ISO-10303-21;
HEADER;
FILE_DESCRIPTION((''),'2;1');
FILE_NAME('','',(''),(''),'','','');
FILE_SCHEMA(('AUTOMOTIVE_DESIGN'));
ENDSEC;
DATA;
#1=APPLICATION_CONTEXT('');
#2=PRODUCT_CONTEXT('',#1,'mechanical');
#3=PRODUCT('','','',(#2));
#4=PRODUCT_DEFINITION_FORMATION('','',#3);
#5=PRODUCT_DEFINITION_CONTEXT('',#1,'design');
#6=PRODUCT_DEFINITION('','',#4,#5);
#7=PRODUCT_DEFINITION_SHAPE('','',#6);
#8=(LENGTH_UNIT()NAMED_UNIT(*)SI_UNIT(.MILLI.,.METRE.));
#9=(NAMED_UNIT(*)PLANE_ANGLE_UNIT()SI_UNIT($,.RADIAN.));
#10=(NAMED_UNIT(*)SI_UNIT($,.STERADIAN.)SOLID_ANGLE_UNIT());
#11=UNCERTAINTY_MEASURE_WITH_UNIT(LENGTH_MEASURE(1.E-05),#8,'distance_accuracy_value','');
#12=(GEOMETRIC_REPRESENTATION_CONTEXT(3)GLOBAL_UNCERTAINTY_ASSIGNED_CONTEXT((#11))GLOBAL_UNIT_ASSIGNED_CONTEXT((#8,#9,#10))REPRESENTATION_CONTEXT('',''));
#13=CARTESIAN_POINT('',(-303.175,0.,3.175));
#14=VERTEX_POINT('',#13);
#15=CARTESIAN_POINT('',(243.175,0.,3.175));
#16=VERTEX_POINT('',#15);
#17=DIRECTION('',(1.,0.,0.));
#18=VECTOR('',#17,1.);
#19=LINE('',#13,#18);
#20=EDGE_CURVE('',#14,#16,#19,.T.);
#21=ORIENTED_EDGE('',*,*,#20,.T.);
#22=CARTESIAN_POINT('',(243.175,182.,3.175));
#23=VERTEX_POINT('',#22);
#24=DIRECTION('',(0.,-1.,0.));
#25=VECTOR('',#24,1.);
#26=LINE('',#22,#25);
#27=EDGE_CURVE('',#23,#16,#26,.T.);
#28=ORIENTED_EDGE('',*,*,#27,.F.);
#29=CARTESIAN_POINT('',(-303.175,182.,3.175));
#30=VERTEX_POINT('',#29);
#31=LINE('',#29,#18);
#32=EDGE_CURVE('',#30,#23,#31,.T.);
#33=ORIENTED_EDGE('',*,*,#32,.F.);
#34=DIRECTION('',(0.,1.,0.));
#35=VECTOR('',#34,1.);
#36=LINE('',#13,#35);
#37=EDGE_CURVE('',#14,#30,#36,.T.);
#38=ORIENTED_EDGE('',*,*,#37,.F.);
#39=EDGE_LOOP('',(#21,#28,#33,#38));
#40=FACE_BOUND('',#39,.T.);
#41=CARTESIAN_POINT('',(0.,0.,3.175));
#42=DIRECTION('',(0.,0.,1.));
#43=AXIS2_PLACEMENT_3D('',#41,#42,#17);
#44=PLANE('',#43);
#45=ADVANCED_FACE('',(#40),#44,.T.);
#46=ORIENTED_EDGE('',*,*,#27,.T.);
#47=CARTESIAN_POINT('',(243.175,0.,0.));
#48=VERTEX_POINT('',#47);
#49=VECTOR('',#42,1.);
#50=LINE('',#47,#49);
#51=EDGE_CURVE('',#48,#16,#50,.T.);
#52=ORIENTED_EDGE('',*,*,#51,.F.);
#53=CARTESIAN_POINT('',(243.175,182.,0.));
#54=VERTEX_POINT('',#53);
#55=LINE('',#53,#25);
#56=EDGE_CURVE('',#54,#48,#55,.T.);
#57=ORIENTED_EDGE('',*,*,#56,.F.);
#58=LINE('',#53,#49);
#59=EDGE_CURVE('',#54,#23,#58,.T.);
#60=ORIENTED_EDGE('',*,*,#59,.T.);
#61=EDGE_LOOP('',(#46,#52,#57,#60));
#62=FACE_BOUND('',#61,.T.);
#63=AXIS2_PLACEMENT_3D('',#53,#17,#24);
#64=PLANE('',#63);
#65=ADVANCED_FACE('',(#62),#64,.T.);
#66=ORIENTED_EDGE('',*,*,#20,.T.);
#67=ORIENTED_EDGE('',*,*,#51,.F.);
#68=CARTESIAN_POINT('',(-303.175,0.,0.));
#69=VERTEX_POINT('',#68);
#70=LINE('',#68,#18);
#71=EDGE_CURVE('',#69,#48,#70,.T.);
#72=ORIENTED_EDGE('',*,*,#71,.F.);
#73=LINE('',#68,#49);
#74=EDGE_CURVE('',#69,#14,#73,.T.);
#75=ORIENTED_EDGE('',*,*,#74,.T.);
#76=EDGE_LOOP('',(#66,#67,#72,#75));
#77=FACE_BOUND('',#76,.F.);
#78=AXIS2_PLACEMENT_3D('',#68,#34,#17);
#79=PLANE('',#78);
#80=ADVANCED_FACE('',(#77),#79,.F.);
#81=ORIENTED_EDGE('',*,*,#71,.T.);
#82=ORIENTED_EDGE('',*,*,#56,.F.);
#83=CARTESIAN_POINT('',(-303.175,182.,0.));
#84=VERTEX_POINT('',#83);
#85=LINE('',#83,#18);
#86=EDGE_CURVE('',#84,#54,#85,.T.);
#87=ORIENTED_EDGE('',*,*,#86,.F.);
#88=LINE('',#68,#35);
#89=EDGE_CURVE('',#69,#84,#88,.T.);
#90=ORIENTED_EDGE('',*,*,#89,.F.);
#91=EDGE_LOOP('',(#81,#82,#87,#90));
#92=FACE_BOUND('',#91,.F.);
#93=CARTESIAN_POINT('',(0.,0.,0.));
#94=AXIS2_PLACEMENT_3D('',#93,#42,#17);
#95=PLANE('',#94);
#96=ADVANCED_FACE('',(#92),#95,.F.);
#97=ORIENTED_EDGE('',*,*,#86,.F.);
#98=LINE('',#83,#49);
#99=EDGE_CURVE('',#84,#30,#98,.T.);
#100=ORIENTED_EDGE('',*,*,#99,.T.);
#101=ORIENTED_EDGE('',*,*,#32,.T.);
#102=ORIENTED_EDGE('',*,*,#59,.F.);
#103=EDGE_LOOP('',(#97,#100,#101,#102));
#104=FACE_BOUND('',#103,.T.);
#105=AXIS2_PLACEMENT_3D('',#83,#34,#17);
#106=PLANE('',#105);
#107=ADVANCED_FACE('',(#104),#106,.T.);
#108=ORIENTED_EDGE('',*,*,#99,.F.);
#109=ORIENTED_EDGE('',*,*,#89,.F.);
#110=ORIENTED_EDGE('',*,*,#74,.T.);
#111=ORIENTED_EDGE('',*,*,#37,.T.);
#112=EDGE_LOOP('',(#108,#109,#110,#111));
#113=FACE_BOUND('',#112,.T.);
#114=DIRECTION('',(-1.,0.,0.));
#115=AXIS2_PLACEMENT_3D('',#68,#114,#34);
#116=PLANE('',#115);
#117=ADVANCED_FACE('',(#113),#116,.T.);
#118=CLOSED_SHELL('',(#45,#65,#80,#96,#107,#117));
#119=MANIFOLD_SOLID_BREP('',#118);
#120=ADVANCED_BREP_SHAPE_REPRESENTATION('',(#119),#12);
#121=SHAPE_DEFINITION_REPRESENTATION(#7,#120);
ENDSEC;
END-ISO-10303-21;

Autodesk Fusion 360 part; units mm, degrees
ref_plane "WorkPlane12" through (0, -1, 0) normal (0, 1, 0) x (0, 0, 1)
sketch "MyStock" plane through (0, 0, 0) normal (0, 0, 1) x (1, 0, 0)
  line L0 (-303.175, 182) -> (243.175, 182)
  line L1 (243.175, 182) -> (243.175, 0)
  line L2 (-303.175, 0) -> (-303.175, 182)
  line L3 (-303.175, 0) -> (243.175, 0)
  dimension "d2016" = 243.175
  dimension "d2017" = 303.175
  dimension "d2102" = 182
extrude "Extrude21" add sketch "MyStock" along normal blind 3.175
sketch "Box Big part" plane through (0, 0, 0) normal (0, 0, 1) x (1, 0, 0)
  line L0 (-224.905, 0) -> (-240, 0)
  line L1 (0, 16.095) -> (0, 0)
  line L2 (-240, 0) -> (-224.905, 0)
  line L3 (-224.905, 0) -> (-224.905, 1.5613)
  line L4 (-223.7758, 3.175) -> (-216.2242, 3.175)
  line L5 (-215.095, 1.5613) -> (-215.095, 0)
  line L6 (-240, 16.095) -> (-238.4387, 16.095)
  line L7 (-236.825, 17.2242) -> (-236.825, 24.7758)
  line L8 (-238.4387, 25.905) -> (-240, 25.905)
  line L9 (-215.095, 0) -> (-204.905, 0)
  line L10 (1.75, 0) -> (22.5, 0)
  arc A0 (-215.095, 1.5613) -> (-216.2242, 3.175) centre (-215.5171, 2.4679) ccw
  arc A1 (-223.7758, 3.175) -> (-224.905, 1.5613) centre (-224.4829, 2.4679) ccw
  line L11 (-240, 0) -> (-240, 16.095)
  line L12 (-240, 25.905) -> (-240, 36.095)
  arc A2 (-238.4387, 16.095) -> (-236.825, 17.2242) centre (-237.5321, 16.5171) ccw
  arc A3 (-236.825, 24.7758) -> (-238.4387, 25.905) centre (-237.5321, 25.4829) ccw
  line L13 (-302, 91) -> (0, 91) construction
  line L14 (-120, -20) -> (-120, 200) construction
  arc A4 (-1.5613, 25.905) -> (-3.175, 24.7758) centre (-2.4679, 25.4829) ccw
  arc A5 (-3.175, 17.2242) -> (-1.5613, 16.095) centre (-2.4679, 16.5171) ccw
  line L15 (-3.175, 17.2242) -> (-3.175, 24.7758)
  line L16 (-1.5613, 25.905) -> (0, 25.905)
  line L17 (0, 25.905) -> (0, 36.095)
  line L18 (0, 16.095) -> (-1.5613, 16.095)
  line L19 (0, 16.095) -> (0, 0)
  line L20 (-215.095, 180.4387) -> (-215.095, 182)
  line L21 (-224.905, 182) -> (-224.905, 180.4387)
  line L22 (-215.095, 182) -> (-204.905, 182)
  arc A6 (-216.2242, 178.825) -> (-215.095, 180.4387) centre (-215.5171, 179.5321) ccw
  line L23 (-224.905, 182) -> (-240, 182)
  arc A7 (-224.905, 180.4387) -> (-223.7758, 178.825) centre (-224.4829, 179.5321) ccw
  line L24 (-223.7758, 178.825) -> (-216.2242, 178.825)
  line L25 (-240, 182) -> (-224.905, 182)
  arc A8 (-195.095, 1.5613) -> (-196.2242, 3.175) centre (-195.5171, 2.4679) ccw
  line L26 (-195.095, 1.5613) -> (-195.095, 0)
  arc A9 (-203.7758, 3.175) -> (-204.905, 1.5613) centre (-204.4829, 2.4679) ccw
  line L27 (-195.095, 0) -> (-184.905, 0)
  line L28 (-203.7758, 3.175) -> (-196.2242, 3.175)
  line L29 (-204.905, 0) -> (-204.905, 1.5613)
  arc A10 (-175.095, 1.5613) -> (-176.2242, 3.175) centre (-175.5171, 2.4679) ccw
  line L30 (-175.095, 1.5613) -> (-175.095, 0)
  arc A11 (-183.7758, 3.175) -> (-184.905, 1.5613) centre (-184.4829, 2.4679) ccw
  line L31 (-175.095, 0) -> (-164.905, 0)
  line L32 (-183.7758, 3.175) -> (-176.2242, 3.175)
  line L33 (-184.905, 0) -> (-184.905, 1.5613)
  arc A12 (-155.095, 1.5613) -> (-156.2242, 3.175) centre (-155.5171, 2.4679) ccw
  line L34 (-155.095, 1.5613) -> (-155.095, 0)
  arc A13 (-163.7758, 3.175) -> (-164.905, 1.5613) centre (-164.4829, 2.4679) ccw
  line L35 (-155.095, 0) -> (-144.905, 0)
  line L36 (-163.7758, 3.175) -> (-156.2242, 3.175)
  line L37 (-164.905, 0) -> (-164.905, 1.5613)
  arc A14 (-135.095, 1.5613) -> (-136.2242, 3.175) centre (-135.5171, 2.4679) ccw
  line L38 (-135.095, 1.5613) -> (-135.095, 0)
  arc A15 (-143.7758, 3.175) -> (-144.905, 1.5613) centre (-144.4829, 2.4679) ccw
  line L39 (-135.095, 0) -> (-124.905, 0)
  line L40 (-143.7758, 3.175) -> (-136.2242, 3.175)
  line L41 (-144.905, 0) -> (-144.905, 1.5613)
  arc A16 (-115.095, 1.5613) -> (-116.2242, 3.175) centre (-115.5171, 2.4679) ccw
  line L42 (-115.095, 1.5613) -> (-115.095, 0)
  arc A17 (-123.7758, 3.175) -> (-124.905, 1.5613) centre (-124.4829, 2.4679) ccw
  line L43 (-115.095, 0) -> (-104.905, 0)
  line L44 (-123.7758, 3.175) -> (-116.2242, 3.175)
  line L45 (-124.905, 0) -> (-124.905, 1.5613)
  arc A18 (-95.095, 1.5613) -> (-96.2242, 3.175) centre (-95.5171, 2.4679) ccw
  line L46 (-95.095, 1.5613) -> (-95.095, 0)
  arc A19 (-103.7758, 3.175) -> (-104.905, 1.5613) centre (-104.4829, 2.4679) ccw
  line L47 (-95.095, 0) -> (-84.905, 0)
  line L48 (-103.7758, 3.175) -> (-96.2242, 3.175)
  line L49 (-104.905, 0) -> (-104.905, 1.5613)
  line L50 (0, 0) -> (-4.905, 0)
  line L51 (-238.4387, 45.905) -> (-240, 45.905)
  line L52 (-240, 36.095) -> (-238.4387, 36.095)
  arc A20 (-238.4387, 36.095) -> (-236.825, 37.2242) centre (-237.5321, 36.5171) ccw
  line L53 (-240, 45.905) -> (-240, 56.095)
  arc A21 (-236.825, 44.7758) -> (-238.4387, 45.905) centre (-237.5321, 45.4829) ccw
  line L54 (-236.825, 37.2242) -> (-236.825, 44.7758)
  line L55 (-238.4387, 65.905) -> (-240, 65.905)
  line L56 (-240, 56.095) -> (-238.4387, 56.095)
  arc A22 (-238.4387, 56.095) -> (-236.825, 57.2242) centre (-237.5321, 56.5171) ccw
  line L57 (-240, 65.905) -> (-240, 76.095)
  arc A23 (-236.825, 64.7758) -> (-238.4387, 65.905) centre (-237.5321, 65.4829) ccw
  line L58 (-236.825, 57.2242) -> (-236.825, 64.7758)
  line L59 (-238.4387, 85.905) -> (-240, 85.905)
  line L60 (-240, 76.095) -> (-238.4387, 76.095)
  arc A24 (-238.4387, 76.095) -> (-236.825, 77.2242) centre (-237.5321, 76.5171) ccw
  line L61 (-240, 85.905) -> (-240, 96.095)
  arc A25 (-236.825, 84.7758) -> (-238.4387, 85.905) centre (-237.5321, 85.4829) ccw
  line L62 (-236.825, 77.2242) -> (-236.825, 84.7758)
  line L63 (-238.4387, 105.905) -> (-240, 105.905)
  line L64 (-240, 96.095) -> (-238.4387, 96.095)
  arc A26 (-238.4387, 96.095) -> (-236.825, 97.2242) centre (-237.5321, 96.5171) ccw
  line L65 (-240, 105.905) -> (-240, 116.095)
  arc A27 (-236.825, 104.7758) -> (-238.4387, 105.905) centre (-237.5321, 105.4829) ccw
  line L66 (-236.825, 97.2242) -> (-236.825, 104.7758)
  arc A28 (-196.2242, 178.825) -> (-195.095, 180.4387) centre (-195.5171, 179.5321) ccw
  line L67 (-195.095, 180.4387) -> (-195.095, 182)
  arc A29 (-204.905, 180.4387) -> (-203.7758, 178.825) centre (-204.4829, 179.5321) ccw
  line L68 (-203.7758, 178.825) -> (-196.2242, 178.825)
  line L69 (-204.905, 182) -> (-204.905, 180.4387)
  line L70 (-195.095, 182) -> (-184.905, 182)
  arc A30 (-176.2242, 178.825) -> (-175.095, 180.4387) centre (-175.5171, 179.5321) ccw
  line L71 (-175.095, 180.4387) -> (-175.095, 182)
  arc A31 (-184.905, 180.4387) -> (-183.7758, 178.825) centre (-184.4829, 179.5321) ccw
  line L72 (-183.7758, 178.825) -> (-176.2242, 178.825)
  line L73 (-184.905, 182) -> (-184.905, 180.4387)
  line L74 (-175.095, 182) -> (-164.905, 182)
  arc A32 (-156.2242, 178.825) -> (-155.095, 180.4387) centre (-155.5171, 179.5321) ccw
  line L75 (-155.095, 180.4387) -> (-155.095, 182)
  arc A33 (-164.905, 180.4387) -> (-163.7758, 178.825) centre (-164.4829, 179.5321) ccw
  line L76 (-163.7758, 178.825) -> (-156.2242, 178.825)
  line L77 (-164.905, 182) -> (-164.905, 180.4387)
  line L78 (-155.095, 182) -> (-144.905, 182)
  arc A34 (-136.2242, 178.825) -> (-135.095, 180.4387) centre (-135.5171, 179.5321) ccw
  line L79 (-135.095, 180.4387) -> (-135.095, 182)
  arc A35 (-144.905, 180.4387) -> (-143.7758, 178.825) centre (-144.4829, 179.5321) ccw
  line L80 (-143.7758, 178.825) -> (-136.2242, 178.825)
  line L81 (-144.905, 182) -> (-144.905, 180.4387)
  line L82 (-135.095, 182) -> (-124.905, 182)
  arc A36 (-116.2242, 178.825) -> (-115.095, 180.4387) centre (-115.5171, 179.5321) ccw
  line L83 (-115.095, 180.4387) -> (-115.095, 182)
  arc A37 (-124.905, 180.4387) -> (-123.7758, 178.825) centre (-124.4829, 179.5321) ccw
  line L84 (-123.7758, 178.825) -> (-116.2242, 178.825)
  line L85 (-124.905, 182) -> (-124.905, 180.4387)
  line L86 (-115.095, 182) -> (-104.905, 182)
  arc A38 (-96.2242, 178.825) -> (-95.095, 180.4387) centre (-95.5171, 179.5321) ccw
  line L87 (-95.095, 180.4387) -> (-95.095, 182)
  arc A39 (-104.905, 180.4387) -> (-103.7758, 178.825) centre (-104.4829, 179.5321) ccw
  line L88 (-103.7758, 178.825) -> (-96.2242, 178.825)
  line L89 (-104.905, 182) -> (-104.905, 180.4387)
  line L90 (-95.095, 182) -> (-84.905, 182)
  line L91 (0, 182) -> (-4.905, 182)
  line L92 (-3.175, 37.2242) -> (-3.175, 44.7758)
  line L93 (-1.5613, 45.905) -> (0, 45.905)
  line L94 (0, 45.905) -> (0, 56.095)
  arc A40 (-1.5613, 45.905) -> (-3.175, 44.7758) centre (-2.4679, 45.4829) ccw
  line L95 (0, 36.095) -> (-1.5613, 36.095)
  line L96 (-3.175, 57.2242) -> (-3.175, 64.7758)
  line L97 (-1.5613, 65.905) -> (0, 65.905)
  line L98 (0, 65.905) -> (0, 76.095)
  arc A41 (-1.5613, 65.905) -> (-3.175, 64.7758) centre (-2.4679, 65.4829) ccw
  line L99 (0, 56.095) -> (-1.5613, 56.095)
  line L100 (-3.175, 77.2242) -> (-3.175, 84.7758)
  line L101 (-1.5613, 85.905) -> (0, 85.905)
  line L102 (0, 85.905) -> (0, 96.095)
  arc A42 (-1.5613, 85.905) -> (-3.175, 84.7758) centre (-2.4679, 85.4829) ccw
  line L103 (0, 76.095) -> (-1.5613, 76.095)
  line L104 (-3.175, 97.2242) -> (-3.175, 104.7758)
  line L105 (-1.5613, 105.905) -> (0, 105.905)
  line L106 (0, 105.905) -> (0, 116.095)
  arc A43 (-1.5613, 105.905) -> (-3.175, 104.7758) centre (-2.4679, 105.4829) ccw
  line L107 (0, 96.095) -> (-1.5613, 96.095)
  arc A44 (-3.175, 37.2242) -> (-1.5613, 36.095) centre (-2.4679, 36.5171) ccw
  arc A45 (-3.175, 57.2242) -> (-1.5613, 56.095) centre (-2.4679, 56.5171) ccw
  arc A46 (-3.175, 77.2242) -> (-1.5613, 76.095) centre (-2.4679, 76.5171) ccw
  arc A47 (-3.175, 97.2242) -> (-1.5613, 96.095) centre (-2.4679, 96.5171) ccw
  line L108 (0, 182) -> (0, 176.095)
  line L109 (-240, 182) -> (-240, 176.095)
  arc A48 (-75.095, 1.5613) -> (-76.2242, 3.175) centre (-75.5171, 2.4679) ccw
  line L110 (-75.095, 1.5613) -> (-75.095, 0)
  arc A49 (-83.7758, 3.175) -> (-84.905, 1.5613) centre (-84.4829, 2.4679) ccw
  line L111 (-75.095, 0) -> (-64.905, 0)
  line L112 (-83.7758, 3.175) -> (-76.2242, 3.175)
  line L113 (-84.905, 0) -> (-84.905, 1.5613)
  arc A50 (-55.095, 1.5613) -> (-56.2242, 3.175) centre (-55.5171, 2.4679) ccw
  line L114 (-55.095, 1.5613) -> (-55.095, 0)
  arc A51 (-63.7758, 3.175) -> (-64.905, 1.5613) centre (-64.4829, 2.4679) ccw
  line L115 (-55.095, 0) -> (-44.905, 0)
  line L116 (-63.7758, 3.175) -> (-56.2242, 3.175)
  line L117 (-64.905, 0) -> (-64.905, 1.5613)
  arc A52 (-35.095, 1.5613) -> (-36.2242, 3.175) centre (-35.5171, 2.4679) ccw
  line L118 (-35.095, 1.5613) -> (-35.095, 0)
  arc A53 (-43.7758, 3.175) -> (-44.905, 1.5613) centre (-44.4829, 2.4679) ccw
  line L119 (-35.095, 0) -> (-24.905, 0)
  line L120 (-43.7758, 3.175) -> (-36.2242, 3.175)
  line L121 (-44.905, 0) -> (-44.905, 1.5613)
  arc A54 (-15.095, 1.5613) -> (-16.2242, 3.175) centre (-15.5171, 2.4679) ccw
  line L122 (-15.095, 1.5613) -> (-15.095, 0)
  arc A55 (-23.7758, 3.175) -> (-24.905, 1.5613) centre (-24.4829, 2.4679) ccw
  line L123 (-15.095, 0) -> (-4.905, 0)
  line L124 (-23.7758, 3.175) -> (-16.2242, 3.175)
  line L125 (-24.905, 0) -> (-24.905, 1.5613)
  line L126 (-238.4387, 125.905) -> (-240, 125.905)
  line L127 (-240, 116.095) -> (-238.4387, 116.095)
  arc A56 (-238.4387, 116.095) -> (-236.825, 117.2242) centre (-237.5321, 116.5171) ccw
  line L128 (-240, 125.905) -> (-240, 136.095)
  arc A57 (-236.825, 124.7758) -> (-238.4387, 125.905) centre (-237.5321, 125.4829) ccw
  line L129 (-236.825, 117.2242) -> (-236.825, 124.7758)
  line L130 (-238.4387, 145.905) -> (-240, 145.905)
  line L131 (-240, 136.095) -> (-238.4387, 136.095)
  arc A58 (-238.4387, 136.095) -> (-236.825, 137.2242) centre (-237.5321, 136.5171) ccw
  line L132 (-240, 145.905) -> (-240, 156.095)
  arc A59 (-236.825, 144.7758) -> (-238.4387, 145.905) centre (-237.5321, 145.4829) ccw
  line L133 (-236.825, 137.2242) -> (-236.825, 144.7758)
  line L134 (-238.4387, 165.905) -> (-240, 165.905)
  line L135 (-240, 156.095) -> (-238.4387, 156.095)
  arc A60 (-238.4387, 156.095) -> (-236.825, 157.2242) centre (-237.5321, 156.5171) ccw
  line L136 (-240, 165.905) -> (-240, 176.095)
  arc A61 (-236.825, 164.7758) -> (-238.4387, 165.905) centre (-237.5321, 165.4829) ccw
  line L137 (-236.825, 157.2242) -> (-236.825, 164.7758)
  arc A62 (-76.2242, 178.825) -> (-75.095, 180.4387) centre (-75.5171, 179.5321) ccw
  line L138 (-75.095, 180.4387) -> (-75.095, 182)
  arc A63 (-84.905, 180.4387) -> (-83.7758, 178.825) centre (-84.4829, 179.5321) ccw
  line L139 (-83.7758, 178.825) -> (-76.2242, 178.825)
  line L140 (-84.905, 182) -> (-84.905, 180.4387)
  line L141 (-75.095, 182) -> (-64.905, 182)
  arc A64 (-56.2242, 178.825) -> (-55.095, 180.4387) centre (-55.5171, 179.5321) ccw
  line L142 (-55.095, 180.4387) -> (-55.095, 182)
  arc A65 (-64.905, 180.4387) -> (-63.7758, 178.825) centre (-64.4829, 179.5321) ccw
  line L143 (-63.7758, 178.825) -> (-56.2242, 178.825)
  line L144 (-64.905, 182) -> (-64.905, 180.4387)
  line L145 (-55.095, 182) -> (-44.905, 182)
  arc A66 (-36.2242, 178.825) -> (-35.095, 180.4387) centre (-35.5171, 179.5321) ccw
  line L146 (-35.095, 180.4387) -> (-35.095, 182)
  arc A67 (-44.905, 180.4387) -> (-43.7758, 178.825) centre (-44.4829, 179.5321) ccw
  line L147 (-43.7758, 178.825) -> (-36.2242, 178.825)
  line L148 (-44.905, 182) -> (-44.905, 180.4387)
  line L149 (-35.095, 182) -> (-24.905, 182)
  arc A68 (-16.2242, 178.825) -> (-15.095, 180.4387) centre (-15.5171, 179.5321) ccw
  line L150 (-15.095, 180.4387) -> (-15.095, 182)
  arc A69 (-24.905, 180.4387) -> (-23.7758, 178.825) centre (-24.4829, 179.5321) ccw
  line L151 (-23.7758, 178.825) -> (-16.2242, 178.825)
  line L152 (-24.905, 182) -> (-24.905, 180.4387)
  line L153 (-15.095, 182) -> (-4.905, 182)
  line L154 (-3.175, 117.2242) -> (-3.175, 124.7758)
  line L155 (-1.5613, 125.905) -> (0, 125.905)
  line L156 (0, 125.905) -> (0, 136.095)
  arc A70 (-1.5613, 125.905) -> (-3.175, 124.7758) centre (-2.4679, 125.4829) ccw
  line L157 (0, 116.095) -> (-1.5613, 116.095)
  arc A71 (-3.175, 117.2242) -> (-1.5613, 116.095) centre (-2.4679, 116.5171) ccw
  line L158 (-3.175, 137.2242) -> (-3.175, 144.7758)
  line L159 (-1.5613, 145.905) -> (0, 145.905)
  line L160 (0, 145.905) -> (0, 156.095)
  arc A72 (-1.5613, 145.905) -> (-3.175, 144.7758) centre (-2.4679, 145.4829) ccw
  line L161 (0, 136.095) -> (-1.5613, 136.095)
  arc A73 (-3.175, 137.2242) -> (-1.5613, 136.095) centre (-2.4679, 136.5171) ccw
  line L162 (-3.175, 157.2242) -> (-3.175, 164.7758)
  line L163 (-1.5613, 165.905) -> (0, 165.905)
  line L164 (0, 165.905) -> (0, 176.095)
  arc A74 (-1.5613, 165.905) -> (-3.175, 164.7758) centre (-2.4679, 165.4829) ccw
  line L165 (0, 156.095) -> (-1.5613, 156.095)
  arc A75 (-3.175, 157.2242) -> (-1.5613, 156.095) centre (-2.4679, 156.5171) ccw
  dimension "d34" = 2
  dimension "d36" = 0.4221
  dimension "d37" = 0.7071
  dimension "d38" = 0.4221
  dimension "d48" = 2
  dimension "d49" = 0.4221
  dimension "d50" = 16.095
  dimension "d52" = 0.4221
  dimension "d54" = 0.7071
  dimension "d55" = 9.81
  dimension "d189" = 15.095
  dimension "d473" = 240
  dimension "d2062" = 10.19
  dimension "d2063" = 9.81
  dimension "d2064" = 3.175
  dimension "d2068" = 3.175
  dimension "d2069" = 10.19
  dimension "d2071" = 120
  dimension "d2074" = 20
  dimension "d2075" = 0
  dimension "d2076" = 4.905
  dimension "d2080" = 0
  dimension "d2081" = 20
  dimension "d2084" = 20
  dimension "d2085" = 0
  dimension "d2087" = 4.905
  dimension "d2088" = 182
  dimension "d2091" = 0
  dimension "d2092" = 20
  dimension "d2095" = 5.905
  dimension "d2097" = 5.905
  dimension "d2098" = 182
  dimension "d2103" = 91
sketch "Box Medium part" plane through (0, 0, 0) normal (0, 0, 1) x (1, 0, 0)
  line L0 (28.2242, 3.175) -> (35.7758, 3.175)
  line L1 (240.4387, 14.905) -> (242, 14.905)
  line L2 (238.825, 3.175) -> (238.825, 13.7758)
  line L3 (242, 25.095) -> (240.4387, 25.095)
  line L4 (2, 60) -> (242, 60) construction
  line L5 (27.095, 0) -> (27.095, 1.5613)
  line L6 (240.4387, 34.905) -> (242, 34.905)
  line L7 (5.175, 3.175) -> (15.7758, 3.175)
  line L8 (36.905, 1.5613) -> (36.905, 0)
  line L9 (242, 60) -> (242, 0) construction
  line L10 (238.825, 26.2242) -> (238.825, 33.7758)
  line L11 (16.905, 1.5613) -> (16.905, 0)
  line L12 (2, -28) -> (2, 0) construction
  arc A0 (16.905, 1.5613) -> (15.7758, 3.175) centre (16.4829, 2.4679) ccw
  arc A1 (28.2242, 3.175) -> (27.095, 1.5613) centre (27.5171, 2.4679) ccw
  arc A2 (36.905, 1.5613) -> (35.7758, 3.175) centre (36.4829, 2.4679) ccw
  arc A3 (240.4387, 14.905) -> (238.825, 13.7758) centre (239.5321, 14.4829) ccw
  line L13 (16.905, 0) -> (27.095, 0)
  line L14 (-22, 30) -> (297, 30) construction
  line L15 (122, -24.8824) -> (122, 81) construction
  arc A4 (238.825, 26.2242) -> (240.4387, 25.095) centre (239.5321, 25.5171) ccw
  arc A5 (240.4387, 34.905) -> (238.825, 33.7758) centre (239.5321, 34.4829) ccw
  line L16 (36.905, 0) -> (47.095, 0)
  line L17 (242, 34.905) -> (242, 45.095)
  line L18 (2, -28) -> (2, 30) construction
  line L19 (2, 60) -> (2, 30) construction
  line L20 (0, 0) -> (47.095, 0) construction
  line L21 (122, 0) -> (242, 0) construction
  line L22 (36.905, 58.4387) -> (36.905, 60)
  arc A6 (35.7758, 56.825) -> (36.905, 58.4387) centre (36.4829, 57.5321) ccw
  line L23 (36.905, 60) -> (47.095, 60)
  arc A7 (15.7758, 56.825) -> (16.905, 58.4387) centre (16.4829, 57.5321) ccw
  line L24 (27.095, 60) -> (27.095, 58.4387)
  line L25 (16.905, 58.4387) -> (16.905, 60)
  arc A8 (27.095, 58.4387) -> (28.2242, 56.825) centre (27.5171, 57.5321) ccw
  line L26 (16.905, 60) -> (27.095, 60)
  line L27 (28.2242, 56.825) -> (35.7758, 56.825)
  line L28 (0, 60) -> (47.095, 60) construction
  line L29 (5.175, 56.825) -> (15.7758, 56.825)
  line L30 (3.5613, 14.905) -> (2, 14.905)
  arc A9 (5.175, 33.7758) -> (3.5613, 34.905) centre (4.4679, 34.4829) ccw
  line L31 (5.175, 3.175) -> (5.175, 13.7758)
  line L32 (3.5613, 34.905) -> (2, 34.905)
  line L33 (5.175, 26.2242) -> (5.175, 33.7758)
  line L34 (2, 25.095) -> (3.5613, 25.095)
  arc A10 (5.175, 13.7758) -> (3.5613, 14.905) centre (4.4679, 14.4829) ccw
  arc A11 (3.5613, 25.095) -> (5.175, 26.2242) centre (4.4679, 25.5171) ccw
  line L35 (2, 34.905) -> (2, 45.095)
  arc A12 (56.905, 1.5613) -> (55.7758, 3.175) centre (56.4829, 2.4679) ccw
  line L36 (48.2242, 3.175) -> (55.7758, 3.175)
  arc A13 (48.2242, 3.175) -> (47.095, 1.5613) centre (47.5171, 2.4679) ccw
  line L37 (56.905, 0) -> (67.095, 0)
  line L38 (56.905, 1.5613) -> (56.905, 0)
  line L39 (47.095, 0) -> (47.095, 1.5613)
  arc A14 (76.905, 1.5613) -> (75.7758, 3.175) centre (76.4829, 2.4679) ccw
  line L40 (68.2242, 3.175) -> (75.7758, 3.175)
  arc A15 (68.2242, 3.175) -> (67.095, 1.5613) centre (67.5171, 2.4679) ccw
  line L41 (76.905, 0) -> (87.095, 0)
  line L42 (76.905, 1.5613) -> (76.905, 0)
  line L43 (67.095, 0) -> (67.095, 1.5613)
  arc A16 (96.905, 1.5613) -> (95.7758, 3.175) centre (96.4829, 2.4679) ccw
  line L44 (88.2242, 3.175) -> (95.7758, 3.175)
  arc A17 (88.2242, 3.175) -> (87.095, 1.5613) centre (87.5171, 2.4679) ccw
  line L45 (96.905, 0) -> (107.095, 0)
  line L46 (96.905, 1.5613) -> (96.905, 0)
  line L47 (87.095, 0) -> (87.095, 1.5613)
  arc A18 (116.905, 1.5613) -> (115.7758, 3.175) centre (116.4829, 2.4679) ccw
  line L48 (108.2242, 3.175) -> (115.7758, 3.175)
  arc A19 (108.2242, 3.175) -> (107.095, 1.5613) centre (107.5171, 2.4679) ccw
  line L49 (116.905, 0) -> (127.095, 0)
  line L50 (116.905, 1.5613) -> (116.905, 0)
  line L51 (107.095, 0) -> (107.095, 1.5613)
  arc A20 (136.905, 1.5613) -> (135.7758, 3.175) centre (136.4829, 2.4679) ccw
  line L52 (128.2242, 3.175) -> (135.7758, 3.175)
  arc A21 (128.2242, 3.175) -> (127.095, 1.5613) centre (127.5171, 2.4679) ccw
  line L53 (136.905, 0) -> (147.095, 0)
  line L54 (136.905, 1.5613) -> (136.905, 0)
  line L55 (127.095, 0) -> (127.095, 1.5613)
  line L56 (47.095, 60) -> (47.095, 58.4387)
  line L57 (48.2242, 56.825) -> (55.7758, 56.825)
  arc A22 (55.7758, 56.825) -> (56.905, 58.4387) centre (56.4829, 57.5321) ccw
  arc A23 (47.095, 58.4387) -> (48.2242, 56.825) centre (47.5171, 57.5321) ccw
  line L58 (56.905, 60) -> (67.095, 60)
  line L59 (56.905, 58.4387) -> (56.905, 60)
  line L60 (67.095, 60) -> (67.095, 58.4387)
  line L61 (68.2242, 56.825) -> (75.7758, 56.825)
  arc A24 (75.7758, 56.825) -> (76.905, 58.4387) centre (76.4829, 57.5321) ccw
  arc A25 (67.095, 58.4387) -> (68.2242, 56.825) centre (67.5171, 57.5321) ccw
  line L62 (76.905, 60) -> (87.095, 60)
  line L63 (76.905, 58.4387) -> (76.905, 60)
  line L64 (87.095, 60) -> (87.095, 58.4387)
  line L65 (88.2242, 56.825) -> (95.7758, 56.825)
  arc A26 (95.7758, 56.825) -> (96.905, 58.4387) centre (96.4829, 57.5321) ccw
  arc A27 (87.095, 58.4387) -> (88.2242, 56.825) centre (87.5171, 57.5321) ccw
  line L66 (96.905, 60) -> (107.095, 60)
  line L67 (96.905, 58.4387) -> (96.905, 60)
  line L68 (107.095, 60) -> (107.095, 58.4387)
  line L69 (108.2242, 56.825) -> (115.7758, 56.825)
  arc A28 (115.7758, 56.825) -> (116.905, 58.4387) centre (116.4829, 57.5321) ccw
  arc A29 (107.095, 58.4387) -> (108.2242, 56.825) centre (107.5171, 57.5321) ccw
  line L70 (116.905, 60) -> (127.095, 60)
  line L71 (116.905, 58.4387) -> (116.905, 60)
  line L72 (127.095, 60) -> (127.095, 58.4387)
  line L73 (128.2242, 56.825) -> (135.7758, 56.825)
  arc A30 (135.7758, 56.825) -> (136.905, 58.4387) centre (136.4829, 57.5321) ccw
  arc A31 (127.095, 58.4387) -> (128.2242, 56.825) centre (127.5171, 57.5321) ccw
  line L74 (136.905, 60) -> (147.095, 60)
  line L75 (136.905, 58.4387) -> (136.905, 60)
  line L76 (227.095, 1.5613) -> (227.095, 0)
  arc A32 (228.2242, 3.175) -> (227.095, 1.5613) centre (227.5171, 2.4679) ccw
  line L77 (238.825, 3.175) -> (228.2242, 3.175)
  line L78 (242, 88) -> (242, 60) construction
  line L79 (227.095, 58.4387) -> (227.095, 60)
  line L80 (242, 60) -> (242, 30) construction
  arc A33 (227.095, 58.4387) -> (228.2242, 56.825) centre (227.5171, 57.5321) ccw
  line L81 (238.825, 56.825) -> (228.2242, 56.825)
  line L82 (2, 14.905) -> (2, 25.095)
  arc A34 (3.5613, 45.095) -> (5.175, 46.2242) centre (4.4679, 45.5171) ccw
  line L83 (3.5613, 45.095) -> (2, 45.095)
  line L84 (5.175, 56.825) -> (5.175, 46.2242)
  arc A35 (238.825, 46.2242) -> (240.4387, 45.095) centre (239.5321, 45.5171) ccw
  line L85 (240.4387, 45.095) -> (242, 45.095)
  line L86 (238.825, 56.825) -> (238.825, 46.2242)
  line L87 (242, 25.095) -> (242, 14.905)
  arc A36 (156.905, 1.5613) -> (155.7758, 3.175) centre (156.4829, 2.4679) ccw
  line L88 (148.2242, 3.175) -> (155.7758, 3.175)
  arc A37 (148.2242, 3.175) -> (147.095, 1.5613) centre (147.5171, 2.4679) ccw
  line L89 (156.905, 0) -> (167.095, 0)
  line L90 (156.905, 1.5613) -> (156.905, 0)
  line L91 (147.095, 0) -> (147.095, 1.5613)
  arc A38 (176.905, 1.5613) -> (175.7758, 3.175) centre (176.4829, 2.4679) ccw
  line L92 (168.2242, 3.175) -> (175.7758, 3.175)
  arc A39 (168.2242, 3.175) -> (167.095, 1.5613) centre (167.5171, 2.4679) ccw
  line L93 (176.905, 0) -> (187.095, 0)
  line L94 (176.905, 1.5613) -> (176.905, 0)
  line L95 (167.095, 0) -> (167.095, 1.5613)
  arc A40 (196.905, 1.5613) -> (195.7758, 3.175) centre (196.4829, 2.4679) ccw
  line L96 (188.2242, 3.175) -> (195.7758, 3.175)
  arc A41 (188.2242, 3.175) -> (187.095, 1.5613) centre (187.5171, 2.4679) ccw
  line L97 (196.905, 0) -> (207.095, 0)
  line L98 (196.905, 1.5613) -> (196.905, 0)
  line L99 (187.095, 0) -> (187.095, 1.5613)
  arc A42 (216.905, 1.5613) -> (215.7758, 3.175) centre (216.4829, 2.4679) ccw
  line L100 (208.2242, 3.175) -> (215.7758, 3.175)
  arc A43 (208.2242, 3.175) -> (207.095, 1.5613) centre (207.5171, 2.4679) ccw
  line L101 (216.905, 0) -> (227.095, 0)
  line L102 (216.905, 1.5613) -> (216.905, 0)
  line L103 (207.095, 0) -> (207.095, 1.5613)
  line L104 (147.095, 60) -> (147.095, 58.4387)
  line L105 (148.2242, 56.825) -> (155.7758, 56.825)
  arc A44 (155.7758, 56.825) -> (156.905, 58.4387) centre (156.4829, 57.5321) ccw
  arc A45 (147.095, 58.4387) -> (148.2242, 56.825) centre (147.5171, 57.5321) ccw
  line L106 (156.905, 60) -> (167.095, 60)
  line L107 (156.905, 58.4387) -> (156.905, 60)
  line L108 (167.095, 60) -> (167.095, 58.4387)
  line L109 (168.2242, 56.825) -> (175.7758, 56.825)
  arc A46 (175.7758, 56.825) -> (176.905, 58.4387) centre (176.4829, 57.5321) ccw
  arc A47 (167.095, 58.4387) -> (168.2242, 56.825) centre (167.5171, 57.5321) ccw
  line L110 (176.905, 60) -> (187.095, 60)
  line L111 (176.905, 58.4387) -> (176.905, 60)
  line L112 (187.095, 60) -> (187.095, 58.4387)
  line L113 (188.2242, 56.825) -> (195.7758, 56.825)
  arc A48 (195.7758, 56.825) -> (196.905, 58.4387) centre (196.4829, 57.5321) ccw
  arc A49 (187.095, 58.4387) -> (188.2242, 56.825) centre (187.5171, 57.5321) ccw
  line L114 (196.905, 60) -> (207.095, 60)
  line L115 (196.905, 58.4387) -> (196.905, 60)
  line L116 (207.095, 60) -> (207.095, 58.4387)
  line L117 (208.2242, 56.825) -> (215.7758, 56.825)
  arc A50 (215.7758, 56.825) -> (216.905, 58.4387) centre (216.4829, 57.5321) ccw
  arc A51 (207.095, 58.4387) -> (208.2242, 56.825) centre (207.5171, 57.5321) ccw
  line L118 (216.905, 60) -> (227.095, 60)
  line L119 (216.905, 58.4387) -> (216.905, 60)
  point P0 (0, 60)
  point P1 (0, 60)
  point P2 (0, 60)
  point P3 (0, 60)
  point P4 (0, 60)
  point P5 (244, 60)
  point P6 (244, 60)
  point P7 (244, 60)
  point P8 (244, 60)
  point P9 (244, 60)
  point P10 (244, 60)
  dimension "d1829" = 60
  dimension "d1833" = 240
  dimension "d1834" = 2
  dimension "d1835" = 0.4221
  dimension "d1836" = 0.7071
  dimension "d1837" = 0.4221
  dimension "d1842" = 2
  dimension "d1843" = 0.7071
  dimension "d1844" = 0.4221
  dimension "d1845" = 2
  dimension "d1846" = 0.4221
  dimension "d1848" = 2
  dimension "d1849" = 0.4221
  dimension "d1850" = 10.19
  dimension "d1862" = 0.4221
  dimension "d2106" = 14.905
  dimension "d2107" = 2
  dimension "d2109" = 9.81
  dimension "d2110" = 10.19
  dimension "d2111" = 30
  dimension "d2112" = 122
  dimension "d2113" = 58
  dimension "d2115" = 3.175
  dimension "d2116" = 3.175
  dimension "d2117" = 9.81
  dimension "d2118" = 10.19
  dimension "d2119" = 10.19
  dimension "d2122" = 11.73
  dimension "d2123" = 3.175
  dimension "d2126" = 20
  dimension "d2127" = 0
  dimension "d2130" = 20
  dimension "d2131" = 0
  dimension "d2134" = 0
  dimension "d2135" = 20
  dimension "d2138" = 0
  dimension "d2139" = 20
sketch "Box Small Part" plane through (0, 0, 0) normal (0, 0, 1) x (1, 0, 0)
  line L0 (-286.905, 0) -> (-286.905, 1.5613)
  line L1 (-245.175, 0) -> (-245.175, 14.7758)
  line L2 (-243.5613, 35.905) -> (-242, 35.905)
  line L3 (-285.7758, 3.175) -> (-278.2242, 3.175)
  line L4 (-277.095, 1.5613) -> (-277.095, 0)
  line L5 (-243.5613, 15.905) -> (-242, 15.905)
  line L6 (-242, 26.095) -> (-242, 15.905)
  arc A0 (-243.5613, 15.905) -> (-245.175, 14.7758) centre (-244.4679, 15.4829) ccw
  arc A1 (-245.175, 27.2242) -> (-243.5613, 26.095) centre (-244.4679, 26.5171) ccw
  line L7 (-242, 26.095) -> (-243.5613, 26.095)
  line L8 (-245.175, 27.2242) -> (-245.175, 34.7758)
  arc A2 (-243.5613, 35.905) -> (-245.175, 34.7758) centre (-244.4679, 35.4829) ccw
  line L9 (-266.905, 0) -> (-277.095, 0)
  arc A3 (-285.7758, 3.175) -> (-286.905, 1.5613) centre (-286.4829, 2.4679) ccw
  arc A4 (-277.095, 1.5613) -> (-278.2242, 3.175) centre (-277.5171, 2.4679) ccw
  line L10 (-242, 46.095) -> (-242, 35.905)
  line L11 (-242, 66.095) -> (-242, 55.905)
  line L12 (-245.175, 47.2242) -> (-245.175, 54.7758)
  line L13 (-242, 46.095) -> (-243.5613, 46.095)
  line L14 (-243.5613, 55.905) -> (-242, 55.905)
  arc A5 (-245.175, 47.2242) -> (-243.5613, 46.095) centre (-244.4679, 46.5171) ccw
  arc A6 (-243.5613, 55.905) -> (-245.175, 54.7758) centre (-244.4679, 55.4829) ccw
  line L15 (-242, 86.095) -> (-242, 75.905)
  line L16 (-245.175, 67.2242) -> (-245.175, 74.7758)
  line L17 (-242, 66.095) -> (-243.5613, 66.095)
  line L18 (-243.5613, 75.905) -> (-242, 75.905)
  arc A7 (-245.175, 67.2242) -> (-243.5613, 66.095) centre (-244.4679, 66.5171) ccw
  arc A8 (-243.5613, 75.905) -> (-245.175, 74.7758) centre (-244.4679, 75.4829) ccw
  line L19 (-242, 106.095) -> (-242, 95.905)
  line L20 (-245.175, 87.2242) -> (-245.175, 94.7758)
  line L21 (-242, 86.095) -> (-243.5613, 86.095)
  line L22 (-243.5613, 95.905) -> (-242, 95.905)
  arc A9 (-245.175, 87.2242) -> (-243.5613, 86.095) centre (-244.4679, 86.5171) ccw
  arc A10 (-243.5613, 95.905) -> (-245.175, 94.7758) centre (-244.4679, 95.4829) ccw
  line L23 (-245.175, 0) -> (-246.905, 0)
  line L24 (-302, 182) -> (-242, 182) construction
  line L25 (-242, 182) -> (-242, 0) construction
  line L26 (-242, 0) -> (-302, 0) construction
  line L27 (-302, 0) -> (-302, 182) construction
  line L28 (-272, 182) -> (-272, 10.7369) construction
  arc A11 (-298.825, 14.7758) -> (-300.4387, 15.905) centre (-299.5321, 15.4829) ccw
  arc A12 (-300.4387, 26.095) -> (-298.825, 27.2242) centre (-299.5321, 26.5171) ccw
  line L29 (-302, 46.095) -> (-302, 35.905)
  line L30 (-300.4387, 35.905) -> (-302, 35.905)
  arc A13 (-298.825, 34.7758) -> (-300.4387, 35.905) centre (-299.5321, 35.4829) ccw
  line L31 (-298.825, 27.2242) -> (-298.825, 34.7758)
  line L32 (-298.825, 0) -> (-298.825, 14.7758)
  line L33 (-302, 26.095) -> (-302, 15.905)
  line L34 (-300.4387, 15.905) -> (-302, 15.905)
  line L35 (-302, 26.095) -> (-300.4387, 26.095)
  line L36 (-302, 66.095) -> (-302, 55.905)
  line L37 (-300.4387, 55.905) -> (-302, 55.905)
  line L38 (-298.825, 47.2242) -> (-298.825, 54.7758)
  line L39 (-302, 46.095) -> (-300.4387, 46.095)
  arc A14 (-300.4387, 46.095) -> (-298.825, 47.2242) centre (-299.5321, 46.5171) ccw
  arc A15 (-298.825, 54.7758) -> (-300.4387, 55.905) centre (-299.5321, 55.4829) ccw
  line L40 (-302, 86.095) -> (-302, 75.905)
  line L41 (-300.4387, 75.905) -> (-302, 75.905)
  line L42 (-298.825, 67.2242) -> (-298.825, 74.7758)
  line L43 (-302, 66.095) -> (-300.4387, 66.095)
  arc A16 (-300.4387, 66.095) -> (-298.825, 67.2242) centre (-299.5321, 66.5171) ccw
  arc A17 (-298.825, 74.7758) -> (-300.4387, 75.905) centre (-299.5321, 75.4829) ccw
  line L44 (-302, 106.095) -> (-302, 95.905)
  line L45 (-300.4387, 95.905) -> (-302, 95.905)
  line L46 (-298.825, 87.2242) -> (-298.825, 94.7758)
  line L47 (-302, 86.095) -> (-300.4387, 86.095)
  arc A18 (-300.4387, 86.095) -> (-298.825, 87.2242) centre (-299.5321, 86.5171) ccw
  arc A19 (-298.825, 94.7758) -> (-300.4387, 95.905) centre (-299.5321, 95.4829) ccw
  line L48 (-298.825, 0) -> (-286.905, 0)
  line L49 (-302, 91) -> (-242, 91) construction
  arc A20 (-300.4387, 166.095) -> (-298.825, 167.2242) centre (-299.5321, 166.5171) ccw
  line L50 (-300.4387, 166.095) -> (-302, 166.095)
  line L51 (-298.825, 182) -> (-298.825, 167.2242)
  line L52 (-243.5613, 166.095) -> (-242, 166.095)
  line L53 (-245.175, 182) -> (-245.175, 167.2242)
  arc A21 (-245.175, 167.2242) -> (-243.5613, 166.095) centre (-244.4679, 166.5171) ccw
  line L54 (-245.175, 182) -> (-246.905, 182)
  line L55 (-285.7758, 178.825) -> (-278.2242, 178.825)
  line L56 (-277.095, 180.4387) -> (-277.095, 182)
  arc A22 (-278.2242, 178.825) -> (-277.095, 180.4387) centre (-277.5171, 179.5321) ccw
  line L57 (-286.905, 182) -> (-286.905, 180.4387)
  line L58 (-298.825, 182) -> (-286.905, 182)
  arc A23 (-286.905, 180.4387) -> (-285.7758, 178.825) centre (-286.4829, 179.5321) ccw
  line L59 (-266.905, 182) -> (-277.095, 182)
  line L60 (-242, 126.095) -> (-242, 115.905)
  line L61 (-245.175, 107.2242) -> (-245.175, 114.7758)
  line L62 (-242, 106.095) -> (-243.5613, 106.095)
  line L63 (-243.5613, 115.905) -> (-242, 115.905)
  arc A24 (-245.175, 107.2242) -> (-243.5613, 106.095) centre (-244.4679, 106.5171) ccw
  arc A25 (-243.5613, 115.905) -> (-245.175, 114.7758) centre (-244.4679, 115.4829) ccw
  line L64 (-242, 146.095) -> (-242, 135.905)
  line L65 (-245.175, 127.2242) -> (-245.175, 134.7758)
  line L66 (-242, 126.095) -> (-243.5613, 126.095)
  line L67 (-243.5613, 135.905) -> (-242, 135.905)
  arc A26 (-245.175, 127.2242) -> (-243.5613, 126.095) centre (-244.4679, 126.5171) ccw
  arc A27 (-243.5613, 135.905) -> (-245.175, 134.7758) centre (-244.4679, 135.4829) ccw
  line L68 (-242, 166.095) -> (-242, 155.905)
  line L69 (-245.175, 147.2242) -> (-245.175, 154.7758)
  line L70 (-242, 146.095) -> (-243.5613, 146.095)
  line L71 (-243.5613, 155.905) -> (-242, 155.905)
  arc A28 (-245.175, 147.2242) -> (-243.5613, 146.095) centre (-244.4679, 146.5171) ccw
  arc A29 (-243.5613, 155.905) -> (-245.175, 154.7758) centre (-244.4679, 155.4829) ccw
  arc A30 (-265.7758, 3.175) -> (-266.905, 1.5613) centre (-266.4829, 2.4679) ccw
  line L72 (-265.7758, 3.175) -> (-258.2242, 3.175)
  line L73 (-246.905, 0) -> (-257.095, 0)
  line L74 (-266.905, 0) -> (-266.905, 1.5613)
  line L75 (-257.095, 1.5613) -> (-257.095, 0)
  arc A31 (-257.095, 1.5613) -> (-258.2242, 3.175) centre (-257.5171, 2.4679) ccw
  line L76 (-302, 126.095) -> (-302, 115.905)
  line L77 (-300.4387, 115.905) -> (-302, 115.905)
  line L78 (-298.825, 107.2242) -> (-298.825, 114.7758)
  line L79 (-302, 106.095) -> (-300.4387, 106.095)
  arc A32 (-300.4387, 106.095) -> (-298.825, 107.2242) centre (-299.5321, 106.5171) ccw
  arc A33 (-298.825, 114.7758) -> (-300.4387, 115.905) centre (-299.5321, 115.4829) ccw
  line L80 (-302, 146.095) -> (-302, 135.905)
  line L81 (-300.4387, 135.905) -> (-302, 135.905)
  line L82 (-298.825, 127.2242) -> (-298.825, 134.7758)
  line L83 (-302, 126.095) -> (-300.4387, 126.095)
  arc A34 (-300.4387, 126.095) -> (-298.825, 127.2242) centre (-299.5321, 126.5171) ccw
  arc A35 (-298.825, 134.7758) -> (-300.4387, 135.905) centre (-299.5321, 135.4829) ccw
  line L84 (-302, 166.095) -> (-302, 155.905)
  line L85 (-300.4387, 155.905) -> (-302, 155.905)
  line L86 (-298.825, 147.2242) -> (-298.825, 154.7758)
  line L87 (-302, 146.095) -> (-300.4387, 146.095)
  arc A36 (-300.4387, 146.095) -> (-298.825, 147.2242) centre (-299.5321, 146.5171) ccw
  arc A37 (-298.825, 154.7758) -> (-300.4387, 155.905) centre (-299.5321, 155.4829) ccw
  arc A38 (-266.905, 180.4387) -> (-265.7758, 178.825) centre (-266.4829, 179.5321) ccw
  line L88 (-257.095, 180.4387) -> (-257.095, 182)
  line L89 (-246.905, 182) -> (-257.095, 182)
  line L90 (-265.7758, 178.825) -> (-258.2242, 178.825)
  line L91 (-266.905, 182) -> (-266.905, 180.4387)
  arc A39 (-258.2242, 178.825) -> (-257.095, 180.4387) centre (-257.5171, 179.5321) ccw
  point P0 (-302, 0)
  point P1 (-266.095, 0)
  point P2 (-302, 182)
  point P3 (-266.095, 182)
  point P4 (-302, 182)
  point P5 (-242, 182)
  point P6 (-277.905, 182)
  point P7 (-285.905, 180.4387)
  point P8 (-284.7758, 178.825)
  point P9 (-285.4829, 179.5321)
  point P10 (-285.905, 182)
  point P11 (-302, 182)
  point P12 (-302, 182)
  point P13 (-266.095, 182)
  point P14 (-265.905, 180.4387)
  point P15 (-252, 182)
  point P16 (-264.7758, 178.825)
  point P17 (-265.905, 182)
  point P18 (-265.4829, 179.5321)
  dimension "d1887" = 2
  dimension "d1888" = 0.4221
  dimension "d1889" = 0.7071
  dimension "d1890" = 0.4221
  dimension "d1896" = 2
  dimension "d1899" = 2
  dimension "d1926" = 3.175
  dimension "d1948" = 0.7071
  dimension "d1949" = 0.4221
  dimension "d1951" = 0.4221
  dimension "d1953" = 9.81
  dimension "d1956" = 10.19
  dimension "d1958" = 0.4221
  dimension "d1959" = 0.7071
  dimension "d1960" = 0.7071
  dimension "d1961" = 9.81
  dimension "d1962" = 10.19
  dimension "d1963" = 242
  dimension "d1965" = 3.175
  dimension "d1975" = 15.905
  dimension "d1976" = 10.19
  dimension "d1992" = 20
  dimension "d1993" = 20
  dimension "d2004" = 20
  dimension "d2005" = 0
  dimension "d2012" = 1.73
  dimension "d2140" = 60
  dimension "d2141" = 182
  dimension "d2142" = 242
  dimension "d2145" = 15.095
  dimension "d2148" = 0
  dimension "d2149" = 20
  dimension "d2152" = 20
  dimension "d2153" = 0
equation "fingerWidth = 10 mm"
equation "length = 240 mm"
equation "thickness = 3.175 mm"
equation "height = 60 mm"
equation "toolDiameter = 2 mm"
equation "d34 = toolDiameter"
equation "d36 = boneCenterToHoleSide"
equation "d37 = boneCenterToHoleBottom"
equation "d38 = boneCenterToHoleSide"
equation "boneCenterToHoleBottom = toolDiameter / 2 / sqrt(2) - 0 * kerf" comment "Best: 2.001 -2*kerf, 0.1;;;Best: 2.001 no kerf and 0.1   OLD+6 kerf at 2.001 Diam and .1 mm"
equation "tempLengthPieces = ceil(( ( floor(( length - 2 * thickness ) / fingerWidth) - 2 ) - ( ( floor(( length - 2 * thickness ) / fingerWidth) - 2 ) % 2 - 1 ) ))"
equation "lengthCuts = ceil(tempLengthPieces / 2)"
equation "shoulderToothLength = ( length - fingerWidth * tempLengthPieces ) / 2 - kerf"
equation "depth = 182 mm"
equation "tempDepthPieces = ceil(( ( floor(( depth - 2 * thickness ) / fingerWidth) - 2 ) - ( ( floor(( depth - 2 * thickness ) / fingerWidth) - 2 ) % 2 - 1 ) ))"
equation "depthCuts = ceil(tempDepthPieces / 2)"
equation "shoulderToothDepth = ( depth - fingerWidth * tempDepthPieces ) / 2 - kerf"
equation "d48 = toolDiameter"
equation "d49 = boneCenterToHoleSide"
equation "d50 = shoulderToothDepth"
equation "d52 = boneCenterToHoleSide"
equation "d54 = boneCenterToHoleBottom"
equation "d55 = holeWidth"
equation "tempHeightPieces = ceil(( ( floor(( height - 2 * thickness ) / fingerWidth) - 2 ) - ( ( floor(( height - 2 * thickness ) / fingerWidth) - 2 ) % 2 - 1 ) ))"
equation "heightCuts = ceil(tempHeightPieces / 2)"
equation "sholderToothHeight = ( height - fingerWidth * tempHeightPieces ) / 2 - kerf"
equation "d189 = shoulderToothLength"
equation "kerf = -0.095 mm"
equation "holeWidth = fingerWidth + 2 * kerf"
equation "shoulderHoleLength = shoulderToothLength + 2 * kerf"
equation "shouderHoleDepth = shoulderToothDepth + 2 * kerf"
equation "shoulderHoleHeight = sholderToothHeight + 2 * kerf"
equation "assembleScrewDiam = 2.1 mm"
equation "assembleScrewDistance = 6 mm"
equation "assembleAvoidCollisionDistance = 1 mm"
equation "coolingHoleDistance = 8 mm"
equation "boneCornerToCenterPack = -3 * kerf"
equation "boneCenterToHoleSide = boneCenterToHoleBottom - boneCornerToCenterPack"
equation "d473 = length"
equation "d479 = -toolDiameter / 2"
equation "pumpLength = 52 mm"
equation "pumpCircleDiam = 30 mm"
equation "pumpHeight = 34 mm"
equation "sensorWireDistance = 10 mm"
equation "sensorWireDiam = 3.5 mm"
equation "pumpScrewDiam = 3 mm"
equation "pcbMountHoles = 2 mm"
equation "ventDiameter = 3 mm"
equation "platformGrommetMountDiameter = 3.5 mm"
equation "hangerWireDiameter = 2 mm"
equation "topPillowHoleDistance = 22 mm"
equation "d1829 = height"
equation "d1833 = length"
equation "d1834 = toolDiameter"
equation "d1835 = boneCenterToHoleSide"
equation "d1836 = boneCenterToHoleBottom"
equation "d1837 = boneCenterToHoleSide"
equation "d1842 = toolDiameter"
equation "d1843 = boneCenterToHoleBottom"
equation "d1844 = boneCenterToHoleSide"
equation "d1845 = toolDiameter"
equation "d1846 = boneCenterToHoleSide"
equation "d1848 = toolDiameter"
equation "d1849 = boneCenterToHoleSide"
equation "d1850 = fingerWidth - 2 * kerf"
equation "d1862 = boneCenterToHoleSide"
equation "d1887 = toolDiameter"
equation "d1888 = boneCenterToHoleSide"
equation "d1889 = boneCenterToHoleBottom"
equation "d1890 = boneCenterToHoleSide"
equation "d1896 = toolDiameter"
equation "d1899 = toolDiameter"
equation "d1926 = thickness"
equation "d1948 = boneCenterToHoleBottom"
equation "d1949 = boneCenterToHoleSide"
equation "d1951 = boneCenterToHoleSide"
equation "d1953 = holeWidth"
equation "d1956 = fingerWidth - 2 * kerf"
equation "d1958 = boneCenterToHoleSide"
equation "d1959 = boneCenterToHoleBottom"
equation "d1960 = boneCenterToHoleBottom"
equation "d1961 = holeWidth"
equation "d1962 = fingerWidth - 2 * kerf"
equation "d1963 = length + toolDiameter"
equation "d1965 = thickness"
equation "d1975 = shouderHoleDepth"
equation "d1976 = fingerWidth - 2 * kerf"
equation "d1991 = depthCuts - 1"
equation "d1992 = 2 * fingerWidth"
equation "d1993 = 2 * fingerWidth"
equation "d2002 = heightCuts"
equation "d2004 = 2 * fingerWidth"
equation "d2012 = extraLineHeight"
equation "extraLineHeight = ( max(-appendix + ( sholderToothHeight - thickness ); 0.001 mm) )"
equation "appendix = fingerWidth - 2 * kerf"
equation "d2016 = thickness + length"
equation "d2017 = height + thickness + length"
equation "d2062 = appendix"
equation "d2063 = holeWidth"
equation "d2064 = thickness"
equation "d2068 = thickness"
equation "d2069 = appendix"
equation "d2071 = length / 2"
equation "d2072 = lengthCuts"
equation "d2074 = 2 * fingerWidth"
equation "d2076 = extraLineLength"
equation "extraLineLength = ( max(-appendix + ( shoulderToothLength ); 0.001 mm) )"
equation "d2079 = depthCuts"
equation "d2081 = 2 * fingerWidth"
equation "d2082 = lengthCuts"
equation "d2084 = 2 * fingerWidth"
equation "d2087 = extraLineLength"
equation "d2088 = depth"
equation "d2090 = depthCuts"
equation "d2092 = 2 * fingerWidth"
equation "d2095 = extraLineDepth"
equation "extraLineDepth = ( max(-appendix + ( shoulderToothDepth ); 0.001 mm) )"
equation "d2097 = extraLineDepth"
equation "d2098 = depth"
equation "d2102 = depth"
equation "d2103 = depth / 2"
equation "d2104 = thickness"
equation "d2106 = shoulderHoleLength"
equation "d2107 = toolDiameter"
equation "d2109 = holeWidth"
equation "d2110 = fingerWidth - 2 * kerf"
equation "d2111 = height / 2"
equation "d2112 = toolDiameter + length / 2"
equation "d2113 = height - toolDiameter"
equation "d2115 = thickness"
equation "d2116 = thickness"
equation "d2117 = holeWidth"
equation "d2118 = appendix"
equation "d2119 = appendix"
equation "d2122 = shoulderHoleHeight - thickness"
equation "d2124 = lengthCuts - 1"
equation "d2126 = 2 * fingerWidth"
equation "d2128 = lengthCuts - 1"
equation "d2130 = 2 * fingerWidth"
equation "d2133 = heightCuts - 1"
equation "d2135 = 2 * fingerWidth"
equation "d2137 = heightCuts - 1"
equation "d2139 = 2 * fingerWidth"
equation "d2140 = height"
equation "d2141 = depth"
equation "d2142 = toolDiameter + length"
equation "d2145 = sholderToothHeight"
equation "d2147 = depthCuts - 1"
equation "d2149 = 2 * fingerWidth"
equation "d2150 = heightCuts"
equation "d2152 = 2 * fingerWidth"
